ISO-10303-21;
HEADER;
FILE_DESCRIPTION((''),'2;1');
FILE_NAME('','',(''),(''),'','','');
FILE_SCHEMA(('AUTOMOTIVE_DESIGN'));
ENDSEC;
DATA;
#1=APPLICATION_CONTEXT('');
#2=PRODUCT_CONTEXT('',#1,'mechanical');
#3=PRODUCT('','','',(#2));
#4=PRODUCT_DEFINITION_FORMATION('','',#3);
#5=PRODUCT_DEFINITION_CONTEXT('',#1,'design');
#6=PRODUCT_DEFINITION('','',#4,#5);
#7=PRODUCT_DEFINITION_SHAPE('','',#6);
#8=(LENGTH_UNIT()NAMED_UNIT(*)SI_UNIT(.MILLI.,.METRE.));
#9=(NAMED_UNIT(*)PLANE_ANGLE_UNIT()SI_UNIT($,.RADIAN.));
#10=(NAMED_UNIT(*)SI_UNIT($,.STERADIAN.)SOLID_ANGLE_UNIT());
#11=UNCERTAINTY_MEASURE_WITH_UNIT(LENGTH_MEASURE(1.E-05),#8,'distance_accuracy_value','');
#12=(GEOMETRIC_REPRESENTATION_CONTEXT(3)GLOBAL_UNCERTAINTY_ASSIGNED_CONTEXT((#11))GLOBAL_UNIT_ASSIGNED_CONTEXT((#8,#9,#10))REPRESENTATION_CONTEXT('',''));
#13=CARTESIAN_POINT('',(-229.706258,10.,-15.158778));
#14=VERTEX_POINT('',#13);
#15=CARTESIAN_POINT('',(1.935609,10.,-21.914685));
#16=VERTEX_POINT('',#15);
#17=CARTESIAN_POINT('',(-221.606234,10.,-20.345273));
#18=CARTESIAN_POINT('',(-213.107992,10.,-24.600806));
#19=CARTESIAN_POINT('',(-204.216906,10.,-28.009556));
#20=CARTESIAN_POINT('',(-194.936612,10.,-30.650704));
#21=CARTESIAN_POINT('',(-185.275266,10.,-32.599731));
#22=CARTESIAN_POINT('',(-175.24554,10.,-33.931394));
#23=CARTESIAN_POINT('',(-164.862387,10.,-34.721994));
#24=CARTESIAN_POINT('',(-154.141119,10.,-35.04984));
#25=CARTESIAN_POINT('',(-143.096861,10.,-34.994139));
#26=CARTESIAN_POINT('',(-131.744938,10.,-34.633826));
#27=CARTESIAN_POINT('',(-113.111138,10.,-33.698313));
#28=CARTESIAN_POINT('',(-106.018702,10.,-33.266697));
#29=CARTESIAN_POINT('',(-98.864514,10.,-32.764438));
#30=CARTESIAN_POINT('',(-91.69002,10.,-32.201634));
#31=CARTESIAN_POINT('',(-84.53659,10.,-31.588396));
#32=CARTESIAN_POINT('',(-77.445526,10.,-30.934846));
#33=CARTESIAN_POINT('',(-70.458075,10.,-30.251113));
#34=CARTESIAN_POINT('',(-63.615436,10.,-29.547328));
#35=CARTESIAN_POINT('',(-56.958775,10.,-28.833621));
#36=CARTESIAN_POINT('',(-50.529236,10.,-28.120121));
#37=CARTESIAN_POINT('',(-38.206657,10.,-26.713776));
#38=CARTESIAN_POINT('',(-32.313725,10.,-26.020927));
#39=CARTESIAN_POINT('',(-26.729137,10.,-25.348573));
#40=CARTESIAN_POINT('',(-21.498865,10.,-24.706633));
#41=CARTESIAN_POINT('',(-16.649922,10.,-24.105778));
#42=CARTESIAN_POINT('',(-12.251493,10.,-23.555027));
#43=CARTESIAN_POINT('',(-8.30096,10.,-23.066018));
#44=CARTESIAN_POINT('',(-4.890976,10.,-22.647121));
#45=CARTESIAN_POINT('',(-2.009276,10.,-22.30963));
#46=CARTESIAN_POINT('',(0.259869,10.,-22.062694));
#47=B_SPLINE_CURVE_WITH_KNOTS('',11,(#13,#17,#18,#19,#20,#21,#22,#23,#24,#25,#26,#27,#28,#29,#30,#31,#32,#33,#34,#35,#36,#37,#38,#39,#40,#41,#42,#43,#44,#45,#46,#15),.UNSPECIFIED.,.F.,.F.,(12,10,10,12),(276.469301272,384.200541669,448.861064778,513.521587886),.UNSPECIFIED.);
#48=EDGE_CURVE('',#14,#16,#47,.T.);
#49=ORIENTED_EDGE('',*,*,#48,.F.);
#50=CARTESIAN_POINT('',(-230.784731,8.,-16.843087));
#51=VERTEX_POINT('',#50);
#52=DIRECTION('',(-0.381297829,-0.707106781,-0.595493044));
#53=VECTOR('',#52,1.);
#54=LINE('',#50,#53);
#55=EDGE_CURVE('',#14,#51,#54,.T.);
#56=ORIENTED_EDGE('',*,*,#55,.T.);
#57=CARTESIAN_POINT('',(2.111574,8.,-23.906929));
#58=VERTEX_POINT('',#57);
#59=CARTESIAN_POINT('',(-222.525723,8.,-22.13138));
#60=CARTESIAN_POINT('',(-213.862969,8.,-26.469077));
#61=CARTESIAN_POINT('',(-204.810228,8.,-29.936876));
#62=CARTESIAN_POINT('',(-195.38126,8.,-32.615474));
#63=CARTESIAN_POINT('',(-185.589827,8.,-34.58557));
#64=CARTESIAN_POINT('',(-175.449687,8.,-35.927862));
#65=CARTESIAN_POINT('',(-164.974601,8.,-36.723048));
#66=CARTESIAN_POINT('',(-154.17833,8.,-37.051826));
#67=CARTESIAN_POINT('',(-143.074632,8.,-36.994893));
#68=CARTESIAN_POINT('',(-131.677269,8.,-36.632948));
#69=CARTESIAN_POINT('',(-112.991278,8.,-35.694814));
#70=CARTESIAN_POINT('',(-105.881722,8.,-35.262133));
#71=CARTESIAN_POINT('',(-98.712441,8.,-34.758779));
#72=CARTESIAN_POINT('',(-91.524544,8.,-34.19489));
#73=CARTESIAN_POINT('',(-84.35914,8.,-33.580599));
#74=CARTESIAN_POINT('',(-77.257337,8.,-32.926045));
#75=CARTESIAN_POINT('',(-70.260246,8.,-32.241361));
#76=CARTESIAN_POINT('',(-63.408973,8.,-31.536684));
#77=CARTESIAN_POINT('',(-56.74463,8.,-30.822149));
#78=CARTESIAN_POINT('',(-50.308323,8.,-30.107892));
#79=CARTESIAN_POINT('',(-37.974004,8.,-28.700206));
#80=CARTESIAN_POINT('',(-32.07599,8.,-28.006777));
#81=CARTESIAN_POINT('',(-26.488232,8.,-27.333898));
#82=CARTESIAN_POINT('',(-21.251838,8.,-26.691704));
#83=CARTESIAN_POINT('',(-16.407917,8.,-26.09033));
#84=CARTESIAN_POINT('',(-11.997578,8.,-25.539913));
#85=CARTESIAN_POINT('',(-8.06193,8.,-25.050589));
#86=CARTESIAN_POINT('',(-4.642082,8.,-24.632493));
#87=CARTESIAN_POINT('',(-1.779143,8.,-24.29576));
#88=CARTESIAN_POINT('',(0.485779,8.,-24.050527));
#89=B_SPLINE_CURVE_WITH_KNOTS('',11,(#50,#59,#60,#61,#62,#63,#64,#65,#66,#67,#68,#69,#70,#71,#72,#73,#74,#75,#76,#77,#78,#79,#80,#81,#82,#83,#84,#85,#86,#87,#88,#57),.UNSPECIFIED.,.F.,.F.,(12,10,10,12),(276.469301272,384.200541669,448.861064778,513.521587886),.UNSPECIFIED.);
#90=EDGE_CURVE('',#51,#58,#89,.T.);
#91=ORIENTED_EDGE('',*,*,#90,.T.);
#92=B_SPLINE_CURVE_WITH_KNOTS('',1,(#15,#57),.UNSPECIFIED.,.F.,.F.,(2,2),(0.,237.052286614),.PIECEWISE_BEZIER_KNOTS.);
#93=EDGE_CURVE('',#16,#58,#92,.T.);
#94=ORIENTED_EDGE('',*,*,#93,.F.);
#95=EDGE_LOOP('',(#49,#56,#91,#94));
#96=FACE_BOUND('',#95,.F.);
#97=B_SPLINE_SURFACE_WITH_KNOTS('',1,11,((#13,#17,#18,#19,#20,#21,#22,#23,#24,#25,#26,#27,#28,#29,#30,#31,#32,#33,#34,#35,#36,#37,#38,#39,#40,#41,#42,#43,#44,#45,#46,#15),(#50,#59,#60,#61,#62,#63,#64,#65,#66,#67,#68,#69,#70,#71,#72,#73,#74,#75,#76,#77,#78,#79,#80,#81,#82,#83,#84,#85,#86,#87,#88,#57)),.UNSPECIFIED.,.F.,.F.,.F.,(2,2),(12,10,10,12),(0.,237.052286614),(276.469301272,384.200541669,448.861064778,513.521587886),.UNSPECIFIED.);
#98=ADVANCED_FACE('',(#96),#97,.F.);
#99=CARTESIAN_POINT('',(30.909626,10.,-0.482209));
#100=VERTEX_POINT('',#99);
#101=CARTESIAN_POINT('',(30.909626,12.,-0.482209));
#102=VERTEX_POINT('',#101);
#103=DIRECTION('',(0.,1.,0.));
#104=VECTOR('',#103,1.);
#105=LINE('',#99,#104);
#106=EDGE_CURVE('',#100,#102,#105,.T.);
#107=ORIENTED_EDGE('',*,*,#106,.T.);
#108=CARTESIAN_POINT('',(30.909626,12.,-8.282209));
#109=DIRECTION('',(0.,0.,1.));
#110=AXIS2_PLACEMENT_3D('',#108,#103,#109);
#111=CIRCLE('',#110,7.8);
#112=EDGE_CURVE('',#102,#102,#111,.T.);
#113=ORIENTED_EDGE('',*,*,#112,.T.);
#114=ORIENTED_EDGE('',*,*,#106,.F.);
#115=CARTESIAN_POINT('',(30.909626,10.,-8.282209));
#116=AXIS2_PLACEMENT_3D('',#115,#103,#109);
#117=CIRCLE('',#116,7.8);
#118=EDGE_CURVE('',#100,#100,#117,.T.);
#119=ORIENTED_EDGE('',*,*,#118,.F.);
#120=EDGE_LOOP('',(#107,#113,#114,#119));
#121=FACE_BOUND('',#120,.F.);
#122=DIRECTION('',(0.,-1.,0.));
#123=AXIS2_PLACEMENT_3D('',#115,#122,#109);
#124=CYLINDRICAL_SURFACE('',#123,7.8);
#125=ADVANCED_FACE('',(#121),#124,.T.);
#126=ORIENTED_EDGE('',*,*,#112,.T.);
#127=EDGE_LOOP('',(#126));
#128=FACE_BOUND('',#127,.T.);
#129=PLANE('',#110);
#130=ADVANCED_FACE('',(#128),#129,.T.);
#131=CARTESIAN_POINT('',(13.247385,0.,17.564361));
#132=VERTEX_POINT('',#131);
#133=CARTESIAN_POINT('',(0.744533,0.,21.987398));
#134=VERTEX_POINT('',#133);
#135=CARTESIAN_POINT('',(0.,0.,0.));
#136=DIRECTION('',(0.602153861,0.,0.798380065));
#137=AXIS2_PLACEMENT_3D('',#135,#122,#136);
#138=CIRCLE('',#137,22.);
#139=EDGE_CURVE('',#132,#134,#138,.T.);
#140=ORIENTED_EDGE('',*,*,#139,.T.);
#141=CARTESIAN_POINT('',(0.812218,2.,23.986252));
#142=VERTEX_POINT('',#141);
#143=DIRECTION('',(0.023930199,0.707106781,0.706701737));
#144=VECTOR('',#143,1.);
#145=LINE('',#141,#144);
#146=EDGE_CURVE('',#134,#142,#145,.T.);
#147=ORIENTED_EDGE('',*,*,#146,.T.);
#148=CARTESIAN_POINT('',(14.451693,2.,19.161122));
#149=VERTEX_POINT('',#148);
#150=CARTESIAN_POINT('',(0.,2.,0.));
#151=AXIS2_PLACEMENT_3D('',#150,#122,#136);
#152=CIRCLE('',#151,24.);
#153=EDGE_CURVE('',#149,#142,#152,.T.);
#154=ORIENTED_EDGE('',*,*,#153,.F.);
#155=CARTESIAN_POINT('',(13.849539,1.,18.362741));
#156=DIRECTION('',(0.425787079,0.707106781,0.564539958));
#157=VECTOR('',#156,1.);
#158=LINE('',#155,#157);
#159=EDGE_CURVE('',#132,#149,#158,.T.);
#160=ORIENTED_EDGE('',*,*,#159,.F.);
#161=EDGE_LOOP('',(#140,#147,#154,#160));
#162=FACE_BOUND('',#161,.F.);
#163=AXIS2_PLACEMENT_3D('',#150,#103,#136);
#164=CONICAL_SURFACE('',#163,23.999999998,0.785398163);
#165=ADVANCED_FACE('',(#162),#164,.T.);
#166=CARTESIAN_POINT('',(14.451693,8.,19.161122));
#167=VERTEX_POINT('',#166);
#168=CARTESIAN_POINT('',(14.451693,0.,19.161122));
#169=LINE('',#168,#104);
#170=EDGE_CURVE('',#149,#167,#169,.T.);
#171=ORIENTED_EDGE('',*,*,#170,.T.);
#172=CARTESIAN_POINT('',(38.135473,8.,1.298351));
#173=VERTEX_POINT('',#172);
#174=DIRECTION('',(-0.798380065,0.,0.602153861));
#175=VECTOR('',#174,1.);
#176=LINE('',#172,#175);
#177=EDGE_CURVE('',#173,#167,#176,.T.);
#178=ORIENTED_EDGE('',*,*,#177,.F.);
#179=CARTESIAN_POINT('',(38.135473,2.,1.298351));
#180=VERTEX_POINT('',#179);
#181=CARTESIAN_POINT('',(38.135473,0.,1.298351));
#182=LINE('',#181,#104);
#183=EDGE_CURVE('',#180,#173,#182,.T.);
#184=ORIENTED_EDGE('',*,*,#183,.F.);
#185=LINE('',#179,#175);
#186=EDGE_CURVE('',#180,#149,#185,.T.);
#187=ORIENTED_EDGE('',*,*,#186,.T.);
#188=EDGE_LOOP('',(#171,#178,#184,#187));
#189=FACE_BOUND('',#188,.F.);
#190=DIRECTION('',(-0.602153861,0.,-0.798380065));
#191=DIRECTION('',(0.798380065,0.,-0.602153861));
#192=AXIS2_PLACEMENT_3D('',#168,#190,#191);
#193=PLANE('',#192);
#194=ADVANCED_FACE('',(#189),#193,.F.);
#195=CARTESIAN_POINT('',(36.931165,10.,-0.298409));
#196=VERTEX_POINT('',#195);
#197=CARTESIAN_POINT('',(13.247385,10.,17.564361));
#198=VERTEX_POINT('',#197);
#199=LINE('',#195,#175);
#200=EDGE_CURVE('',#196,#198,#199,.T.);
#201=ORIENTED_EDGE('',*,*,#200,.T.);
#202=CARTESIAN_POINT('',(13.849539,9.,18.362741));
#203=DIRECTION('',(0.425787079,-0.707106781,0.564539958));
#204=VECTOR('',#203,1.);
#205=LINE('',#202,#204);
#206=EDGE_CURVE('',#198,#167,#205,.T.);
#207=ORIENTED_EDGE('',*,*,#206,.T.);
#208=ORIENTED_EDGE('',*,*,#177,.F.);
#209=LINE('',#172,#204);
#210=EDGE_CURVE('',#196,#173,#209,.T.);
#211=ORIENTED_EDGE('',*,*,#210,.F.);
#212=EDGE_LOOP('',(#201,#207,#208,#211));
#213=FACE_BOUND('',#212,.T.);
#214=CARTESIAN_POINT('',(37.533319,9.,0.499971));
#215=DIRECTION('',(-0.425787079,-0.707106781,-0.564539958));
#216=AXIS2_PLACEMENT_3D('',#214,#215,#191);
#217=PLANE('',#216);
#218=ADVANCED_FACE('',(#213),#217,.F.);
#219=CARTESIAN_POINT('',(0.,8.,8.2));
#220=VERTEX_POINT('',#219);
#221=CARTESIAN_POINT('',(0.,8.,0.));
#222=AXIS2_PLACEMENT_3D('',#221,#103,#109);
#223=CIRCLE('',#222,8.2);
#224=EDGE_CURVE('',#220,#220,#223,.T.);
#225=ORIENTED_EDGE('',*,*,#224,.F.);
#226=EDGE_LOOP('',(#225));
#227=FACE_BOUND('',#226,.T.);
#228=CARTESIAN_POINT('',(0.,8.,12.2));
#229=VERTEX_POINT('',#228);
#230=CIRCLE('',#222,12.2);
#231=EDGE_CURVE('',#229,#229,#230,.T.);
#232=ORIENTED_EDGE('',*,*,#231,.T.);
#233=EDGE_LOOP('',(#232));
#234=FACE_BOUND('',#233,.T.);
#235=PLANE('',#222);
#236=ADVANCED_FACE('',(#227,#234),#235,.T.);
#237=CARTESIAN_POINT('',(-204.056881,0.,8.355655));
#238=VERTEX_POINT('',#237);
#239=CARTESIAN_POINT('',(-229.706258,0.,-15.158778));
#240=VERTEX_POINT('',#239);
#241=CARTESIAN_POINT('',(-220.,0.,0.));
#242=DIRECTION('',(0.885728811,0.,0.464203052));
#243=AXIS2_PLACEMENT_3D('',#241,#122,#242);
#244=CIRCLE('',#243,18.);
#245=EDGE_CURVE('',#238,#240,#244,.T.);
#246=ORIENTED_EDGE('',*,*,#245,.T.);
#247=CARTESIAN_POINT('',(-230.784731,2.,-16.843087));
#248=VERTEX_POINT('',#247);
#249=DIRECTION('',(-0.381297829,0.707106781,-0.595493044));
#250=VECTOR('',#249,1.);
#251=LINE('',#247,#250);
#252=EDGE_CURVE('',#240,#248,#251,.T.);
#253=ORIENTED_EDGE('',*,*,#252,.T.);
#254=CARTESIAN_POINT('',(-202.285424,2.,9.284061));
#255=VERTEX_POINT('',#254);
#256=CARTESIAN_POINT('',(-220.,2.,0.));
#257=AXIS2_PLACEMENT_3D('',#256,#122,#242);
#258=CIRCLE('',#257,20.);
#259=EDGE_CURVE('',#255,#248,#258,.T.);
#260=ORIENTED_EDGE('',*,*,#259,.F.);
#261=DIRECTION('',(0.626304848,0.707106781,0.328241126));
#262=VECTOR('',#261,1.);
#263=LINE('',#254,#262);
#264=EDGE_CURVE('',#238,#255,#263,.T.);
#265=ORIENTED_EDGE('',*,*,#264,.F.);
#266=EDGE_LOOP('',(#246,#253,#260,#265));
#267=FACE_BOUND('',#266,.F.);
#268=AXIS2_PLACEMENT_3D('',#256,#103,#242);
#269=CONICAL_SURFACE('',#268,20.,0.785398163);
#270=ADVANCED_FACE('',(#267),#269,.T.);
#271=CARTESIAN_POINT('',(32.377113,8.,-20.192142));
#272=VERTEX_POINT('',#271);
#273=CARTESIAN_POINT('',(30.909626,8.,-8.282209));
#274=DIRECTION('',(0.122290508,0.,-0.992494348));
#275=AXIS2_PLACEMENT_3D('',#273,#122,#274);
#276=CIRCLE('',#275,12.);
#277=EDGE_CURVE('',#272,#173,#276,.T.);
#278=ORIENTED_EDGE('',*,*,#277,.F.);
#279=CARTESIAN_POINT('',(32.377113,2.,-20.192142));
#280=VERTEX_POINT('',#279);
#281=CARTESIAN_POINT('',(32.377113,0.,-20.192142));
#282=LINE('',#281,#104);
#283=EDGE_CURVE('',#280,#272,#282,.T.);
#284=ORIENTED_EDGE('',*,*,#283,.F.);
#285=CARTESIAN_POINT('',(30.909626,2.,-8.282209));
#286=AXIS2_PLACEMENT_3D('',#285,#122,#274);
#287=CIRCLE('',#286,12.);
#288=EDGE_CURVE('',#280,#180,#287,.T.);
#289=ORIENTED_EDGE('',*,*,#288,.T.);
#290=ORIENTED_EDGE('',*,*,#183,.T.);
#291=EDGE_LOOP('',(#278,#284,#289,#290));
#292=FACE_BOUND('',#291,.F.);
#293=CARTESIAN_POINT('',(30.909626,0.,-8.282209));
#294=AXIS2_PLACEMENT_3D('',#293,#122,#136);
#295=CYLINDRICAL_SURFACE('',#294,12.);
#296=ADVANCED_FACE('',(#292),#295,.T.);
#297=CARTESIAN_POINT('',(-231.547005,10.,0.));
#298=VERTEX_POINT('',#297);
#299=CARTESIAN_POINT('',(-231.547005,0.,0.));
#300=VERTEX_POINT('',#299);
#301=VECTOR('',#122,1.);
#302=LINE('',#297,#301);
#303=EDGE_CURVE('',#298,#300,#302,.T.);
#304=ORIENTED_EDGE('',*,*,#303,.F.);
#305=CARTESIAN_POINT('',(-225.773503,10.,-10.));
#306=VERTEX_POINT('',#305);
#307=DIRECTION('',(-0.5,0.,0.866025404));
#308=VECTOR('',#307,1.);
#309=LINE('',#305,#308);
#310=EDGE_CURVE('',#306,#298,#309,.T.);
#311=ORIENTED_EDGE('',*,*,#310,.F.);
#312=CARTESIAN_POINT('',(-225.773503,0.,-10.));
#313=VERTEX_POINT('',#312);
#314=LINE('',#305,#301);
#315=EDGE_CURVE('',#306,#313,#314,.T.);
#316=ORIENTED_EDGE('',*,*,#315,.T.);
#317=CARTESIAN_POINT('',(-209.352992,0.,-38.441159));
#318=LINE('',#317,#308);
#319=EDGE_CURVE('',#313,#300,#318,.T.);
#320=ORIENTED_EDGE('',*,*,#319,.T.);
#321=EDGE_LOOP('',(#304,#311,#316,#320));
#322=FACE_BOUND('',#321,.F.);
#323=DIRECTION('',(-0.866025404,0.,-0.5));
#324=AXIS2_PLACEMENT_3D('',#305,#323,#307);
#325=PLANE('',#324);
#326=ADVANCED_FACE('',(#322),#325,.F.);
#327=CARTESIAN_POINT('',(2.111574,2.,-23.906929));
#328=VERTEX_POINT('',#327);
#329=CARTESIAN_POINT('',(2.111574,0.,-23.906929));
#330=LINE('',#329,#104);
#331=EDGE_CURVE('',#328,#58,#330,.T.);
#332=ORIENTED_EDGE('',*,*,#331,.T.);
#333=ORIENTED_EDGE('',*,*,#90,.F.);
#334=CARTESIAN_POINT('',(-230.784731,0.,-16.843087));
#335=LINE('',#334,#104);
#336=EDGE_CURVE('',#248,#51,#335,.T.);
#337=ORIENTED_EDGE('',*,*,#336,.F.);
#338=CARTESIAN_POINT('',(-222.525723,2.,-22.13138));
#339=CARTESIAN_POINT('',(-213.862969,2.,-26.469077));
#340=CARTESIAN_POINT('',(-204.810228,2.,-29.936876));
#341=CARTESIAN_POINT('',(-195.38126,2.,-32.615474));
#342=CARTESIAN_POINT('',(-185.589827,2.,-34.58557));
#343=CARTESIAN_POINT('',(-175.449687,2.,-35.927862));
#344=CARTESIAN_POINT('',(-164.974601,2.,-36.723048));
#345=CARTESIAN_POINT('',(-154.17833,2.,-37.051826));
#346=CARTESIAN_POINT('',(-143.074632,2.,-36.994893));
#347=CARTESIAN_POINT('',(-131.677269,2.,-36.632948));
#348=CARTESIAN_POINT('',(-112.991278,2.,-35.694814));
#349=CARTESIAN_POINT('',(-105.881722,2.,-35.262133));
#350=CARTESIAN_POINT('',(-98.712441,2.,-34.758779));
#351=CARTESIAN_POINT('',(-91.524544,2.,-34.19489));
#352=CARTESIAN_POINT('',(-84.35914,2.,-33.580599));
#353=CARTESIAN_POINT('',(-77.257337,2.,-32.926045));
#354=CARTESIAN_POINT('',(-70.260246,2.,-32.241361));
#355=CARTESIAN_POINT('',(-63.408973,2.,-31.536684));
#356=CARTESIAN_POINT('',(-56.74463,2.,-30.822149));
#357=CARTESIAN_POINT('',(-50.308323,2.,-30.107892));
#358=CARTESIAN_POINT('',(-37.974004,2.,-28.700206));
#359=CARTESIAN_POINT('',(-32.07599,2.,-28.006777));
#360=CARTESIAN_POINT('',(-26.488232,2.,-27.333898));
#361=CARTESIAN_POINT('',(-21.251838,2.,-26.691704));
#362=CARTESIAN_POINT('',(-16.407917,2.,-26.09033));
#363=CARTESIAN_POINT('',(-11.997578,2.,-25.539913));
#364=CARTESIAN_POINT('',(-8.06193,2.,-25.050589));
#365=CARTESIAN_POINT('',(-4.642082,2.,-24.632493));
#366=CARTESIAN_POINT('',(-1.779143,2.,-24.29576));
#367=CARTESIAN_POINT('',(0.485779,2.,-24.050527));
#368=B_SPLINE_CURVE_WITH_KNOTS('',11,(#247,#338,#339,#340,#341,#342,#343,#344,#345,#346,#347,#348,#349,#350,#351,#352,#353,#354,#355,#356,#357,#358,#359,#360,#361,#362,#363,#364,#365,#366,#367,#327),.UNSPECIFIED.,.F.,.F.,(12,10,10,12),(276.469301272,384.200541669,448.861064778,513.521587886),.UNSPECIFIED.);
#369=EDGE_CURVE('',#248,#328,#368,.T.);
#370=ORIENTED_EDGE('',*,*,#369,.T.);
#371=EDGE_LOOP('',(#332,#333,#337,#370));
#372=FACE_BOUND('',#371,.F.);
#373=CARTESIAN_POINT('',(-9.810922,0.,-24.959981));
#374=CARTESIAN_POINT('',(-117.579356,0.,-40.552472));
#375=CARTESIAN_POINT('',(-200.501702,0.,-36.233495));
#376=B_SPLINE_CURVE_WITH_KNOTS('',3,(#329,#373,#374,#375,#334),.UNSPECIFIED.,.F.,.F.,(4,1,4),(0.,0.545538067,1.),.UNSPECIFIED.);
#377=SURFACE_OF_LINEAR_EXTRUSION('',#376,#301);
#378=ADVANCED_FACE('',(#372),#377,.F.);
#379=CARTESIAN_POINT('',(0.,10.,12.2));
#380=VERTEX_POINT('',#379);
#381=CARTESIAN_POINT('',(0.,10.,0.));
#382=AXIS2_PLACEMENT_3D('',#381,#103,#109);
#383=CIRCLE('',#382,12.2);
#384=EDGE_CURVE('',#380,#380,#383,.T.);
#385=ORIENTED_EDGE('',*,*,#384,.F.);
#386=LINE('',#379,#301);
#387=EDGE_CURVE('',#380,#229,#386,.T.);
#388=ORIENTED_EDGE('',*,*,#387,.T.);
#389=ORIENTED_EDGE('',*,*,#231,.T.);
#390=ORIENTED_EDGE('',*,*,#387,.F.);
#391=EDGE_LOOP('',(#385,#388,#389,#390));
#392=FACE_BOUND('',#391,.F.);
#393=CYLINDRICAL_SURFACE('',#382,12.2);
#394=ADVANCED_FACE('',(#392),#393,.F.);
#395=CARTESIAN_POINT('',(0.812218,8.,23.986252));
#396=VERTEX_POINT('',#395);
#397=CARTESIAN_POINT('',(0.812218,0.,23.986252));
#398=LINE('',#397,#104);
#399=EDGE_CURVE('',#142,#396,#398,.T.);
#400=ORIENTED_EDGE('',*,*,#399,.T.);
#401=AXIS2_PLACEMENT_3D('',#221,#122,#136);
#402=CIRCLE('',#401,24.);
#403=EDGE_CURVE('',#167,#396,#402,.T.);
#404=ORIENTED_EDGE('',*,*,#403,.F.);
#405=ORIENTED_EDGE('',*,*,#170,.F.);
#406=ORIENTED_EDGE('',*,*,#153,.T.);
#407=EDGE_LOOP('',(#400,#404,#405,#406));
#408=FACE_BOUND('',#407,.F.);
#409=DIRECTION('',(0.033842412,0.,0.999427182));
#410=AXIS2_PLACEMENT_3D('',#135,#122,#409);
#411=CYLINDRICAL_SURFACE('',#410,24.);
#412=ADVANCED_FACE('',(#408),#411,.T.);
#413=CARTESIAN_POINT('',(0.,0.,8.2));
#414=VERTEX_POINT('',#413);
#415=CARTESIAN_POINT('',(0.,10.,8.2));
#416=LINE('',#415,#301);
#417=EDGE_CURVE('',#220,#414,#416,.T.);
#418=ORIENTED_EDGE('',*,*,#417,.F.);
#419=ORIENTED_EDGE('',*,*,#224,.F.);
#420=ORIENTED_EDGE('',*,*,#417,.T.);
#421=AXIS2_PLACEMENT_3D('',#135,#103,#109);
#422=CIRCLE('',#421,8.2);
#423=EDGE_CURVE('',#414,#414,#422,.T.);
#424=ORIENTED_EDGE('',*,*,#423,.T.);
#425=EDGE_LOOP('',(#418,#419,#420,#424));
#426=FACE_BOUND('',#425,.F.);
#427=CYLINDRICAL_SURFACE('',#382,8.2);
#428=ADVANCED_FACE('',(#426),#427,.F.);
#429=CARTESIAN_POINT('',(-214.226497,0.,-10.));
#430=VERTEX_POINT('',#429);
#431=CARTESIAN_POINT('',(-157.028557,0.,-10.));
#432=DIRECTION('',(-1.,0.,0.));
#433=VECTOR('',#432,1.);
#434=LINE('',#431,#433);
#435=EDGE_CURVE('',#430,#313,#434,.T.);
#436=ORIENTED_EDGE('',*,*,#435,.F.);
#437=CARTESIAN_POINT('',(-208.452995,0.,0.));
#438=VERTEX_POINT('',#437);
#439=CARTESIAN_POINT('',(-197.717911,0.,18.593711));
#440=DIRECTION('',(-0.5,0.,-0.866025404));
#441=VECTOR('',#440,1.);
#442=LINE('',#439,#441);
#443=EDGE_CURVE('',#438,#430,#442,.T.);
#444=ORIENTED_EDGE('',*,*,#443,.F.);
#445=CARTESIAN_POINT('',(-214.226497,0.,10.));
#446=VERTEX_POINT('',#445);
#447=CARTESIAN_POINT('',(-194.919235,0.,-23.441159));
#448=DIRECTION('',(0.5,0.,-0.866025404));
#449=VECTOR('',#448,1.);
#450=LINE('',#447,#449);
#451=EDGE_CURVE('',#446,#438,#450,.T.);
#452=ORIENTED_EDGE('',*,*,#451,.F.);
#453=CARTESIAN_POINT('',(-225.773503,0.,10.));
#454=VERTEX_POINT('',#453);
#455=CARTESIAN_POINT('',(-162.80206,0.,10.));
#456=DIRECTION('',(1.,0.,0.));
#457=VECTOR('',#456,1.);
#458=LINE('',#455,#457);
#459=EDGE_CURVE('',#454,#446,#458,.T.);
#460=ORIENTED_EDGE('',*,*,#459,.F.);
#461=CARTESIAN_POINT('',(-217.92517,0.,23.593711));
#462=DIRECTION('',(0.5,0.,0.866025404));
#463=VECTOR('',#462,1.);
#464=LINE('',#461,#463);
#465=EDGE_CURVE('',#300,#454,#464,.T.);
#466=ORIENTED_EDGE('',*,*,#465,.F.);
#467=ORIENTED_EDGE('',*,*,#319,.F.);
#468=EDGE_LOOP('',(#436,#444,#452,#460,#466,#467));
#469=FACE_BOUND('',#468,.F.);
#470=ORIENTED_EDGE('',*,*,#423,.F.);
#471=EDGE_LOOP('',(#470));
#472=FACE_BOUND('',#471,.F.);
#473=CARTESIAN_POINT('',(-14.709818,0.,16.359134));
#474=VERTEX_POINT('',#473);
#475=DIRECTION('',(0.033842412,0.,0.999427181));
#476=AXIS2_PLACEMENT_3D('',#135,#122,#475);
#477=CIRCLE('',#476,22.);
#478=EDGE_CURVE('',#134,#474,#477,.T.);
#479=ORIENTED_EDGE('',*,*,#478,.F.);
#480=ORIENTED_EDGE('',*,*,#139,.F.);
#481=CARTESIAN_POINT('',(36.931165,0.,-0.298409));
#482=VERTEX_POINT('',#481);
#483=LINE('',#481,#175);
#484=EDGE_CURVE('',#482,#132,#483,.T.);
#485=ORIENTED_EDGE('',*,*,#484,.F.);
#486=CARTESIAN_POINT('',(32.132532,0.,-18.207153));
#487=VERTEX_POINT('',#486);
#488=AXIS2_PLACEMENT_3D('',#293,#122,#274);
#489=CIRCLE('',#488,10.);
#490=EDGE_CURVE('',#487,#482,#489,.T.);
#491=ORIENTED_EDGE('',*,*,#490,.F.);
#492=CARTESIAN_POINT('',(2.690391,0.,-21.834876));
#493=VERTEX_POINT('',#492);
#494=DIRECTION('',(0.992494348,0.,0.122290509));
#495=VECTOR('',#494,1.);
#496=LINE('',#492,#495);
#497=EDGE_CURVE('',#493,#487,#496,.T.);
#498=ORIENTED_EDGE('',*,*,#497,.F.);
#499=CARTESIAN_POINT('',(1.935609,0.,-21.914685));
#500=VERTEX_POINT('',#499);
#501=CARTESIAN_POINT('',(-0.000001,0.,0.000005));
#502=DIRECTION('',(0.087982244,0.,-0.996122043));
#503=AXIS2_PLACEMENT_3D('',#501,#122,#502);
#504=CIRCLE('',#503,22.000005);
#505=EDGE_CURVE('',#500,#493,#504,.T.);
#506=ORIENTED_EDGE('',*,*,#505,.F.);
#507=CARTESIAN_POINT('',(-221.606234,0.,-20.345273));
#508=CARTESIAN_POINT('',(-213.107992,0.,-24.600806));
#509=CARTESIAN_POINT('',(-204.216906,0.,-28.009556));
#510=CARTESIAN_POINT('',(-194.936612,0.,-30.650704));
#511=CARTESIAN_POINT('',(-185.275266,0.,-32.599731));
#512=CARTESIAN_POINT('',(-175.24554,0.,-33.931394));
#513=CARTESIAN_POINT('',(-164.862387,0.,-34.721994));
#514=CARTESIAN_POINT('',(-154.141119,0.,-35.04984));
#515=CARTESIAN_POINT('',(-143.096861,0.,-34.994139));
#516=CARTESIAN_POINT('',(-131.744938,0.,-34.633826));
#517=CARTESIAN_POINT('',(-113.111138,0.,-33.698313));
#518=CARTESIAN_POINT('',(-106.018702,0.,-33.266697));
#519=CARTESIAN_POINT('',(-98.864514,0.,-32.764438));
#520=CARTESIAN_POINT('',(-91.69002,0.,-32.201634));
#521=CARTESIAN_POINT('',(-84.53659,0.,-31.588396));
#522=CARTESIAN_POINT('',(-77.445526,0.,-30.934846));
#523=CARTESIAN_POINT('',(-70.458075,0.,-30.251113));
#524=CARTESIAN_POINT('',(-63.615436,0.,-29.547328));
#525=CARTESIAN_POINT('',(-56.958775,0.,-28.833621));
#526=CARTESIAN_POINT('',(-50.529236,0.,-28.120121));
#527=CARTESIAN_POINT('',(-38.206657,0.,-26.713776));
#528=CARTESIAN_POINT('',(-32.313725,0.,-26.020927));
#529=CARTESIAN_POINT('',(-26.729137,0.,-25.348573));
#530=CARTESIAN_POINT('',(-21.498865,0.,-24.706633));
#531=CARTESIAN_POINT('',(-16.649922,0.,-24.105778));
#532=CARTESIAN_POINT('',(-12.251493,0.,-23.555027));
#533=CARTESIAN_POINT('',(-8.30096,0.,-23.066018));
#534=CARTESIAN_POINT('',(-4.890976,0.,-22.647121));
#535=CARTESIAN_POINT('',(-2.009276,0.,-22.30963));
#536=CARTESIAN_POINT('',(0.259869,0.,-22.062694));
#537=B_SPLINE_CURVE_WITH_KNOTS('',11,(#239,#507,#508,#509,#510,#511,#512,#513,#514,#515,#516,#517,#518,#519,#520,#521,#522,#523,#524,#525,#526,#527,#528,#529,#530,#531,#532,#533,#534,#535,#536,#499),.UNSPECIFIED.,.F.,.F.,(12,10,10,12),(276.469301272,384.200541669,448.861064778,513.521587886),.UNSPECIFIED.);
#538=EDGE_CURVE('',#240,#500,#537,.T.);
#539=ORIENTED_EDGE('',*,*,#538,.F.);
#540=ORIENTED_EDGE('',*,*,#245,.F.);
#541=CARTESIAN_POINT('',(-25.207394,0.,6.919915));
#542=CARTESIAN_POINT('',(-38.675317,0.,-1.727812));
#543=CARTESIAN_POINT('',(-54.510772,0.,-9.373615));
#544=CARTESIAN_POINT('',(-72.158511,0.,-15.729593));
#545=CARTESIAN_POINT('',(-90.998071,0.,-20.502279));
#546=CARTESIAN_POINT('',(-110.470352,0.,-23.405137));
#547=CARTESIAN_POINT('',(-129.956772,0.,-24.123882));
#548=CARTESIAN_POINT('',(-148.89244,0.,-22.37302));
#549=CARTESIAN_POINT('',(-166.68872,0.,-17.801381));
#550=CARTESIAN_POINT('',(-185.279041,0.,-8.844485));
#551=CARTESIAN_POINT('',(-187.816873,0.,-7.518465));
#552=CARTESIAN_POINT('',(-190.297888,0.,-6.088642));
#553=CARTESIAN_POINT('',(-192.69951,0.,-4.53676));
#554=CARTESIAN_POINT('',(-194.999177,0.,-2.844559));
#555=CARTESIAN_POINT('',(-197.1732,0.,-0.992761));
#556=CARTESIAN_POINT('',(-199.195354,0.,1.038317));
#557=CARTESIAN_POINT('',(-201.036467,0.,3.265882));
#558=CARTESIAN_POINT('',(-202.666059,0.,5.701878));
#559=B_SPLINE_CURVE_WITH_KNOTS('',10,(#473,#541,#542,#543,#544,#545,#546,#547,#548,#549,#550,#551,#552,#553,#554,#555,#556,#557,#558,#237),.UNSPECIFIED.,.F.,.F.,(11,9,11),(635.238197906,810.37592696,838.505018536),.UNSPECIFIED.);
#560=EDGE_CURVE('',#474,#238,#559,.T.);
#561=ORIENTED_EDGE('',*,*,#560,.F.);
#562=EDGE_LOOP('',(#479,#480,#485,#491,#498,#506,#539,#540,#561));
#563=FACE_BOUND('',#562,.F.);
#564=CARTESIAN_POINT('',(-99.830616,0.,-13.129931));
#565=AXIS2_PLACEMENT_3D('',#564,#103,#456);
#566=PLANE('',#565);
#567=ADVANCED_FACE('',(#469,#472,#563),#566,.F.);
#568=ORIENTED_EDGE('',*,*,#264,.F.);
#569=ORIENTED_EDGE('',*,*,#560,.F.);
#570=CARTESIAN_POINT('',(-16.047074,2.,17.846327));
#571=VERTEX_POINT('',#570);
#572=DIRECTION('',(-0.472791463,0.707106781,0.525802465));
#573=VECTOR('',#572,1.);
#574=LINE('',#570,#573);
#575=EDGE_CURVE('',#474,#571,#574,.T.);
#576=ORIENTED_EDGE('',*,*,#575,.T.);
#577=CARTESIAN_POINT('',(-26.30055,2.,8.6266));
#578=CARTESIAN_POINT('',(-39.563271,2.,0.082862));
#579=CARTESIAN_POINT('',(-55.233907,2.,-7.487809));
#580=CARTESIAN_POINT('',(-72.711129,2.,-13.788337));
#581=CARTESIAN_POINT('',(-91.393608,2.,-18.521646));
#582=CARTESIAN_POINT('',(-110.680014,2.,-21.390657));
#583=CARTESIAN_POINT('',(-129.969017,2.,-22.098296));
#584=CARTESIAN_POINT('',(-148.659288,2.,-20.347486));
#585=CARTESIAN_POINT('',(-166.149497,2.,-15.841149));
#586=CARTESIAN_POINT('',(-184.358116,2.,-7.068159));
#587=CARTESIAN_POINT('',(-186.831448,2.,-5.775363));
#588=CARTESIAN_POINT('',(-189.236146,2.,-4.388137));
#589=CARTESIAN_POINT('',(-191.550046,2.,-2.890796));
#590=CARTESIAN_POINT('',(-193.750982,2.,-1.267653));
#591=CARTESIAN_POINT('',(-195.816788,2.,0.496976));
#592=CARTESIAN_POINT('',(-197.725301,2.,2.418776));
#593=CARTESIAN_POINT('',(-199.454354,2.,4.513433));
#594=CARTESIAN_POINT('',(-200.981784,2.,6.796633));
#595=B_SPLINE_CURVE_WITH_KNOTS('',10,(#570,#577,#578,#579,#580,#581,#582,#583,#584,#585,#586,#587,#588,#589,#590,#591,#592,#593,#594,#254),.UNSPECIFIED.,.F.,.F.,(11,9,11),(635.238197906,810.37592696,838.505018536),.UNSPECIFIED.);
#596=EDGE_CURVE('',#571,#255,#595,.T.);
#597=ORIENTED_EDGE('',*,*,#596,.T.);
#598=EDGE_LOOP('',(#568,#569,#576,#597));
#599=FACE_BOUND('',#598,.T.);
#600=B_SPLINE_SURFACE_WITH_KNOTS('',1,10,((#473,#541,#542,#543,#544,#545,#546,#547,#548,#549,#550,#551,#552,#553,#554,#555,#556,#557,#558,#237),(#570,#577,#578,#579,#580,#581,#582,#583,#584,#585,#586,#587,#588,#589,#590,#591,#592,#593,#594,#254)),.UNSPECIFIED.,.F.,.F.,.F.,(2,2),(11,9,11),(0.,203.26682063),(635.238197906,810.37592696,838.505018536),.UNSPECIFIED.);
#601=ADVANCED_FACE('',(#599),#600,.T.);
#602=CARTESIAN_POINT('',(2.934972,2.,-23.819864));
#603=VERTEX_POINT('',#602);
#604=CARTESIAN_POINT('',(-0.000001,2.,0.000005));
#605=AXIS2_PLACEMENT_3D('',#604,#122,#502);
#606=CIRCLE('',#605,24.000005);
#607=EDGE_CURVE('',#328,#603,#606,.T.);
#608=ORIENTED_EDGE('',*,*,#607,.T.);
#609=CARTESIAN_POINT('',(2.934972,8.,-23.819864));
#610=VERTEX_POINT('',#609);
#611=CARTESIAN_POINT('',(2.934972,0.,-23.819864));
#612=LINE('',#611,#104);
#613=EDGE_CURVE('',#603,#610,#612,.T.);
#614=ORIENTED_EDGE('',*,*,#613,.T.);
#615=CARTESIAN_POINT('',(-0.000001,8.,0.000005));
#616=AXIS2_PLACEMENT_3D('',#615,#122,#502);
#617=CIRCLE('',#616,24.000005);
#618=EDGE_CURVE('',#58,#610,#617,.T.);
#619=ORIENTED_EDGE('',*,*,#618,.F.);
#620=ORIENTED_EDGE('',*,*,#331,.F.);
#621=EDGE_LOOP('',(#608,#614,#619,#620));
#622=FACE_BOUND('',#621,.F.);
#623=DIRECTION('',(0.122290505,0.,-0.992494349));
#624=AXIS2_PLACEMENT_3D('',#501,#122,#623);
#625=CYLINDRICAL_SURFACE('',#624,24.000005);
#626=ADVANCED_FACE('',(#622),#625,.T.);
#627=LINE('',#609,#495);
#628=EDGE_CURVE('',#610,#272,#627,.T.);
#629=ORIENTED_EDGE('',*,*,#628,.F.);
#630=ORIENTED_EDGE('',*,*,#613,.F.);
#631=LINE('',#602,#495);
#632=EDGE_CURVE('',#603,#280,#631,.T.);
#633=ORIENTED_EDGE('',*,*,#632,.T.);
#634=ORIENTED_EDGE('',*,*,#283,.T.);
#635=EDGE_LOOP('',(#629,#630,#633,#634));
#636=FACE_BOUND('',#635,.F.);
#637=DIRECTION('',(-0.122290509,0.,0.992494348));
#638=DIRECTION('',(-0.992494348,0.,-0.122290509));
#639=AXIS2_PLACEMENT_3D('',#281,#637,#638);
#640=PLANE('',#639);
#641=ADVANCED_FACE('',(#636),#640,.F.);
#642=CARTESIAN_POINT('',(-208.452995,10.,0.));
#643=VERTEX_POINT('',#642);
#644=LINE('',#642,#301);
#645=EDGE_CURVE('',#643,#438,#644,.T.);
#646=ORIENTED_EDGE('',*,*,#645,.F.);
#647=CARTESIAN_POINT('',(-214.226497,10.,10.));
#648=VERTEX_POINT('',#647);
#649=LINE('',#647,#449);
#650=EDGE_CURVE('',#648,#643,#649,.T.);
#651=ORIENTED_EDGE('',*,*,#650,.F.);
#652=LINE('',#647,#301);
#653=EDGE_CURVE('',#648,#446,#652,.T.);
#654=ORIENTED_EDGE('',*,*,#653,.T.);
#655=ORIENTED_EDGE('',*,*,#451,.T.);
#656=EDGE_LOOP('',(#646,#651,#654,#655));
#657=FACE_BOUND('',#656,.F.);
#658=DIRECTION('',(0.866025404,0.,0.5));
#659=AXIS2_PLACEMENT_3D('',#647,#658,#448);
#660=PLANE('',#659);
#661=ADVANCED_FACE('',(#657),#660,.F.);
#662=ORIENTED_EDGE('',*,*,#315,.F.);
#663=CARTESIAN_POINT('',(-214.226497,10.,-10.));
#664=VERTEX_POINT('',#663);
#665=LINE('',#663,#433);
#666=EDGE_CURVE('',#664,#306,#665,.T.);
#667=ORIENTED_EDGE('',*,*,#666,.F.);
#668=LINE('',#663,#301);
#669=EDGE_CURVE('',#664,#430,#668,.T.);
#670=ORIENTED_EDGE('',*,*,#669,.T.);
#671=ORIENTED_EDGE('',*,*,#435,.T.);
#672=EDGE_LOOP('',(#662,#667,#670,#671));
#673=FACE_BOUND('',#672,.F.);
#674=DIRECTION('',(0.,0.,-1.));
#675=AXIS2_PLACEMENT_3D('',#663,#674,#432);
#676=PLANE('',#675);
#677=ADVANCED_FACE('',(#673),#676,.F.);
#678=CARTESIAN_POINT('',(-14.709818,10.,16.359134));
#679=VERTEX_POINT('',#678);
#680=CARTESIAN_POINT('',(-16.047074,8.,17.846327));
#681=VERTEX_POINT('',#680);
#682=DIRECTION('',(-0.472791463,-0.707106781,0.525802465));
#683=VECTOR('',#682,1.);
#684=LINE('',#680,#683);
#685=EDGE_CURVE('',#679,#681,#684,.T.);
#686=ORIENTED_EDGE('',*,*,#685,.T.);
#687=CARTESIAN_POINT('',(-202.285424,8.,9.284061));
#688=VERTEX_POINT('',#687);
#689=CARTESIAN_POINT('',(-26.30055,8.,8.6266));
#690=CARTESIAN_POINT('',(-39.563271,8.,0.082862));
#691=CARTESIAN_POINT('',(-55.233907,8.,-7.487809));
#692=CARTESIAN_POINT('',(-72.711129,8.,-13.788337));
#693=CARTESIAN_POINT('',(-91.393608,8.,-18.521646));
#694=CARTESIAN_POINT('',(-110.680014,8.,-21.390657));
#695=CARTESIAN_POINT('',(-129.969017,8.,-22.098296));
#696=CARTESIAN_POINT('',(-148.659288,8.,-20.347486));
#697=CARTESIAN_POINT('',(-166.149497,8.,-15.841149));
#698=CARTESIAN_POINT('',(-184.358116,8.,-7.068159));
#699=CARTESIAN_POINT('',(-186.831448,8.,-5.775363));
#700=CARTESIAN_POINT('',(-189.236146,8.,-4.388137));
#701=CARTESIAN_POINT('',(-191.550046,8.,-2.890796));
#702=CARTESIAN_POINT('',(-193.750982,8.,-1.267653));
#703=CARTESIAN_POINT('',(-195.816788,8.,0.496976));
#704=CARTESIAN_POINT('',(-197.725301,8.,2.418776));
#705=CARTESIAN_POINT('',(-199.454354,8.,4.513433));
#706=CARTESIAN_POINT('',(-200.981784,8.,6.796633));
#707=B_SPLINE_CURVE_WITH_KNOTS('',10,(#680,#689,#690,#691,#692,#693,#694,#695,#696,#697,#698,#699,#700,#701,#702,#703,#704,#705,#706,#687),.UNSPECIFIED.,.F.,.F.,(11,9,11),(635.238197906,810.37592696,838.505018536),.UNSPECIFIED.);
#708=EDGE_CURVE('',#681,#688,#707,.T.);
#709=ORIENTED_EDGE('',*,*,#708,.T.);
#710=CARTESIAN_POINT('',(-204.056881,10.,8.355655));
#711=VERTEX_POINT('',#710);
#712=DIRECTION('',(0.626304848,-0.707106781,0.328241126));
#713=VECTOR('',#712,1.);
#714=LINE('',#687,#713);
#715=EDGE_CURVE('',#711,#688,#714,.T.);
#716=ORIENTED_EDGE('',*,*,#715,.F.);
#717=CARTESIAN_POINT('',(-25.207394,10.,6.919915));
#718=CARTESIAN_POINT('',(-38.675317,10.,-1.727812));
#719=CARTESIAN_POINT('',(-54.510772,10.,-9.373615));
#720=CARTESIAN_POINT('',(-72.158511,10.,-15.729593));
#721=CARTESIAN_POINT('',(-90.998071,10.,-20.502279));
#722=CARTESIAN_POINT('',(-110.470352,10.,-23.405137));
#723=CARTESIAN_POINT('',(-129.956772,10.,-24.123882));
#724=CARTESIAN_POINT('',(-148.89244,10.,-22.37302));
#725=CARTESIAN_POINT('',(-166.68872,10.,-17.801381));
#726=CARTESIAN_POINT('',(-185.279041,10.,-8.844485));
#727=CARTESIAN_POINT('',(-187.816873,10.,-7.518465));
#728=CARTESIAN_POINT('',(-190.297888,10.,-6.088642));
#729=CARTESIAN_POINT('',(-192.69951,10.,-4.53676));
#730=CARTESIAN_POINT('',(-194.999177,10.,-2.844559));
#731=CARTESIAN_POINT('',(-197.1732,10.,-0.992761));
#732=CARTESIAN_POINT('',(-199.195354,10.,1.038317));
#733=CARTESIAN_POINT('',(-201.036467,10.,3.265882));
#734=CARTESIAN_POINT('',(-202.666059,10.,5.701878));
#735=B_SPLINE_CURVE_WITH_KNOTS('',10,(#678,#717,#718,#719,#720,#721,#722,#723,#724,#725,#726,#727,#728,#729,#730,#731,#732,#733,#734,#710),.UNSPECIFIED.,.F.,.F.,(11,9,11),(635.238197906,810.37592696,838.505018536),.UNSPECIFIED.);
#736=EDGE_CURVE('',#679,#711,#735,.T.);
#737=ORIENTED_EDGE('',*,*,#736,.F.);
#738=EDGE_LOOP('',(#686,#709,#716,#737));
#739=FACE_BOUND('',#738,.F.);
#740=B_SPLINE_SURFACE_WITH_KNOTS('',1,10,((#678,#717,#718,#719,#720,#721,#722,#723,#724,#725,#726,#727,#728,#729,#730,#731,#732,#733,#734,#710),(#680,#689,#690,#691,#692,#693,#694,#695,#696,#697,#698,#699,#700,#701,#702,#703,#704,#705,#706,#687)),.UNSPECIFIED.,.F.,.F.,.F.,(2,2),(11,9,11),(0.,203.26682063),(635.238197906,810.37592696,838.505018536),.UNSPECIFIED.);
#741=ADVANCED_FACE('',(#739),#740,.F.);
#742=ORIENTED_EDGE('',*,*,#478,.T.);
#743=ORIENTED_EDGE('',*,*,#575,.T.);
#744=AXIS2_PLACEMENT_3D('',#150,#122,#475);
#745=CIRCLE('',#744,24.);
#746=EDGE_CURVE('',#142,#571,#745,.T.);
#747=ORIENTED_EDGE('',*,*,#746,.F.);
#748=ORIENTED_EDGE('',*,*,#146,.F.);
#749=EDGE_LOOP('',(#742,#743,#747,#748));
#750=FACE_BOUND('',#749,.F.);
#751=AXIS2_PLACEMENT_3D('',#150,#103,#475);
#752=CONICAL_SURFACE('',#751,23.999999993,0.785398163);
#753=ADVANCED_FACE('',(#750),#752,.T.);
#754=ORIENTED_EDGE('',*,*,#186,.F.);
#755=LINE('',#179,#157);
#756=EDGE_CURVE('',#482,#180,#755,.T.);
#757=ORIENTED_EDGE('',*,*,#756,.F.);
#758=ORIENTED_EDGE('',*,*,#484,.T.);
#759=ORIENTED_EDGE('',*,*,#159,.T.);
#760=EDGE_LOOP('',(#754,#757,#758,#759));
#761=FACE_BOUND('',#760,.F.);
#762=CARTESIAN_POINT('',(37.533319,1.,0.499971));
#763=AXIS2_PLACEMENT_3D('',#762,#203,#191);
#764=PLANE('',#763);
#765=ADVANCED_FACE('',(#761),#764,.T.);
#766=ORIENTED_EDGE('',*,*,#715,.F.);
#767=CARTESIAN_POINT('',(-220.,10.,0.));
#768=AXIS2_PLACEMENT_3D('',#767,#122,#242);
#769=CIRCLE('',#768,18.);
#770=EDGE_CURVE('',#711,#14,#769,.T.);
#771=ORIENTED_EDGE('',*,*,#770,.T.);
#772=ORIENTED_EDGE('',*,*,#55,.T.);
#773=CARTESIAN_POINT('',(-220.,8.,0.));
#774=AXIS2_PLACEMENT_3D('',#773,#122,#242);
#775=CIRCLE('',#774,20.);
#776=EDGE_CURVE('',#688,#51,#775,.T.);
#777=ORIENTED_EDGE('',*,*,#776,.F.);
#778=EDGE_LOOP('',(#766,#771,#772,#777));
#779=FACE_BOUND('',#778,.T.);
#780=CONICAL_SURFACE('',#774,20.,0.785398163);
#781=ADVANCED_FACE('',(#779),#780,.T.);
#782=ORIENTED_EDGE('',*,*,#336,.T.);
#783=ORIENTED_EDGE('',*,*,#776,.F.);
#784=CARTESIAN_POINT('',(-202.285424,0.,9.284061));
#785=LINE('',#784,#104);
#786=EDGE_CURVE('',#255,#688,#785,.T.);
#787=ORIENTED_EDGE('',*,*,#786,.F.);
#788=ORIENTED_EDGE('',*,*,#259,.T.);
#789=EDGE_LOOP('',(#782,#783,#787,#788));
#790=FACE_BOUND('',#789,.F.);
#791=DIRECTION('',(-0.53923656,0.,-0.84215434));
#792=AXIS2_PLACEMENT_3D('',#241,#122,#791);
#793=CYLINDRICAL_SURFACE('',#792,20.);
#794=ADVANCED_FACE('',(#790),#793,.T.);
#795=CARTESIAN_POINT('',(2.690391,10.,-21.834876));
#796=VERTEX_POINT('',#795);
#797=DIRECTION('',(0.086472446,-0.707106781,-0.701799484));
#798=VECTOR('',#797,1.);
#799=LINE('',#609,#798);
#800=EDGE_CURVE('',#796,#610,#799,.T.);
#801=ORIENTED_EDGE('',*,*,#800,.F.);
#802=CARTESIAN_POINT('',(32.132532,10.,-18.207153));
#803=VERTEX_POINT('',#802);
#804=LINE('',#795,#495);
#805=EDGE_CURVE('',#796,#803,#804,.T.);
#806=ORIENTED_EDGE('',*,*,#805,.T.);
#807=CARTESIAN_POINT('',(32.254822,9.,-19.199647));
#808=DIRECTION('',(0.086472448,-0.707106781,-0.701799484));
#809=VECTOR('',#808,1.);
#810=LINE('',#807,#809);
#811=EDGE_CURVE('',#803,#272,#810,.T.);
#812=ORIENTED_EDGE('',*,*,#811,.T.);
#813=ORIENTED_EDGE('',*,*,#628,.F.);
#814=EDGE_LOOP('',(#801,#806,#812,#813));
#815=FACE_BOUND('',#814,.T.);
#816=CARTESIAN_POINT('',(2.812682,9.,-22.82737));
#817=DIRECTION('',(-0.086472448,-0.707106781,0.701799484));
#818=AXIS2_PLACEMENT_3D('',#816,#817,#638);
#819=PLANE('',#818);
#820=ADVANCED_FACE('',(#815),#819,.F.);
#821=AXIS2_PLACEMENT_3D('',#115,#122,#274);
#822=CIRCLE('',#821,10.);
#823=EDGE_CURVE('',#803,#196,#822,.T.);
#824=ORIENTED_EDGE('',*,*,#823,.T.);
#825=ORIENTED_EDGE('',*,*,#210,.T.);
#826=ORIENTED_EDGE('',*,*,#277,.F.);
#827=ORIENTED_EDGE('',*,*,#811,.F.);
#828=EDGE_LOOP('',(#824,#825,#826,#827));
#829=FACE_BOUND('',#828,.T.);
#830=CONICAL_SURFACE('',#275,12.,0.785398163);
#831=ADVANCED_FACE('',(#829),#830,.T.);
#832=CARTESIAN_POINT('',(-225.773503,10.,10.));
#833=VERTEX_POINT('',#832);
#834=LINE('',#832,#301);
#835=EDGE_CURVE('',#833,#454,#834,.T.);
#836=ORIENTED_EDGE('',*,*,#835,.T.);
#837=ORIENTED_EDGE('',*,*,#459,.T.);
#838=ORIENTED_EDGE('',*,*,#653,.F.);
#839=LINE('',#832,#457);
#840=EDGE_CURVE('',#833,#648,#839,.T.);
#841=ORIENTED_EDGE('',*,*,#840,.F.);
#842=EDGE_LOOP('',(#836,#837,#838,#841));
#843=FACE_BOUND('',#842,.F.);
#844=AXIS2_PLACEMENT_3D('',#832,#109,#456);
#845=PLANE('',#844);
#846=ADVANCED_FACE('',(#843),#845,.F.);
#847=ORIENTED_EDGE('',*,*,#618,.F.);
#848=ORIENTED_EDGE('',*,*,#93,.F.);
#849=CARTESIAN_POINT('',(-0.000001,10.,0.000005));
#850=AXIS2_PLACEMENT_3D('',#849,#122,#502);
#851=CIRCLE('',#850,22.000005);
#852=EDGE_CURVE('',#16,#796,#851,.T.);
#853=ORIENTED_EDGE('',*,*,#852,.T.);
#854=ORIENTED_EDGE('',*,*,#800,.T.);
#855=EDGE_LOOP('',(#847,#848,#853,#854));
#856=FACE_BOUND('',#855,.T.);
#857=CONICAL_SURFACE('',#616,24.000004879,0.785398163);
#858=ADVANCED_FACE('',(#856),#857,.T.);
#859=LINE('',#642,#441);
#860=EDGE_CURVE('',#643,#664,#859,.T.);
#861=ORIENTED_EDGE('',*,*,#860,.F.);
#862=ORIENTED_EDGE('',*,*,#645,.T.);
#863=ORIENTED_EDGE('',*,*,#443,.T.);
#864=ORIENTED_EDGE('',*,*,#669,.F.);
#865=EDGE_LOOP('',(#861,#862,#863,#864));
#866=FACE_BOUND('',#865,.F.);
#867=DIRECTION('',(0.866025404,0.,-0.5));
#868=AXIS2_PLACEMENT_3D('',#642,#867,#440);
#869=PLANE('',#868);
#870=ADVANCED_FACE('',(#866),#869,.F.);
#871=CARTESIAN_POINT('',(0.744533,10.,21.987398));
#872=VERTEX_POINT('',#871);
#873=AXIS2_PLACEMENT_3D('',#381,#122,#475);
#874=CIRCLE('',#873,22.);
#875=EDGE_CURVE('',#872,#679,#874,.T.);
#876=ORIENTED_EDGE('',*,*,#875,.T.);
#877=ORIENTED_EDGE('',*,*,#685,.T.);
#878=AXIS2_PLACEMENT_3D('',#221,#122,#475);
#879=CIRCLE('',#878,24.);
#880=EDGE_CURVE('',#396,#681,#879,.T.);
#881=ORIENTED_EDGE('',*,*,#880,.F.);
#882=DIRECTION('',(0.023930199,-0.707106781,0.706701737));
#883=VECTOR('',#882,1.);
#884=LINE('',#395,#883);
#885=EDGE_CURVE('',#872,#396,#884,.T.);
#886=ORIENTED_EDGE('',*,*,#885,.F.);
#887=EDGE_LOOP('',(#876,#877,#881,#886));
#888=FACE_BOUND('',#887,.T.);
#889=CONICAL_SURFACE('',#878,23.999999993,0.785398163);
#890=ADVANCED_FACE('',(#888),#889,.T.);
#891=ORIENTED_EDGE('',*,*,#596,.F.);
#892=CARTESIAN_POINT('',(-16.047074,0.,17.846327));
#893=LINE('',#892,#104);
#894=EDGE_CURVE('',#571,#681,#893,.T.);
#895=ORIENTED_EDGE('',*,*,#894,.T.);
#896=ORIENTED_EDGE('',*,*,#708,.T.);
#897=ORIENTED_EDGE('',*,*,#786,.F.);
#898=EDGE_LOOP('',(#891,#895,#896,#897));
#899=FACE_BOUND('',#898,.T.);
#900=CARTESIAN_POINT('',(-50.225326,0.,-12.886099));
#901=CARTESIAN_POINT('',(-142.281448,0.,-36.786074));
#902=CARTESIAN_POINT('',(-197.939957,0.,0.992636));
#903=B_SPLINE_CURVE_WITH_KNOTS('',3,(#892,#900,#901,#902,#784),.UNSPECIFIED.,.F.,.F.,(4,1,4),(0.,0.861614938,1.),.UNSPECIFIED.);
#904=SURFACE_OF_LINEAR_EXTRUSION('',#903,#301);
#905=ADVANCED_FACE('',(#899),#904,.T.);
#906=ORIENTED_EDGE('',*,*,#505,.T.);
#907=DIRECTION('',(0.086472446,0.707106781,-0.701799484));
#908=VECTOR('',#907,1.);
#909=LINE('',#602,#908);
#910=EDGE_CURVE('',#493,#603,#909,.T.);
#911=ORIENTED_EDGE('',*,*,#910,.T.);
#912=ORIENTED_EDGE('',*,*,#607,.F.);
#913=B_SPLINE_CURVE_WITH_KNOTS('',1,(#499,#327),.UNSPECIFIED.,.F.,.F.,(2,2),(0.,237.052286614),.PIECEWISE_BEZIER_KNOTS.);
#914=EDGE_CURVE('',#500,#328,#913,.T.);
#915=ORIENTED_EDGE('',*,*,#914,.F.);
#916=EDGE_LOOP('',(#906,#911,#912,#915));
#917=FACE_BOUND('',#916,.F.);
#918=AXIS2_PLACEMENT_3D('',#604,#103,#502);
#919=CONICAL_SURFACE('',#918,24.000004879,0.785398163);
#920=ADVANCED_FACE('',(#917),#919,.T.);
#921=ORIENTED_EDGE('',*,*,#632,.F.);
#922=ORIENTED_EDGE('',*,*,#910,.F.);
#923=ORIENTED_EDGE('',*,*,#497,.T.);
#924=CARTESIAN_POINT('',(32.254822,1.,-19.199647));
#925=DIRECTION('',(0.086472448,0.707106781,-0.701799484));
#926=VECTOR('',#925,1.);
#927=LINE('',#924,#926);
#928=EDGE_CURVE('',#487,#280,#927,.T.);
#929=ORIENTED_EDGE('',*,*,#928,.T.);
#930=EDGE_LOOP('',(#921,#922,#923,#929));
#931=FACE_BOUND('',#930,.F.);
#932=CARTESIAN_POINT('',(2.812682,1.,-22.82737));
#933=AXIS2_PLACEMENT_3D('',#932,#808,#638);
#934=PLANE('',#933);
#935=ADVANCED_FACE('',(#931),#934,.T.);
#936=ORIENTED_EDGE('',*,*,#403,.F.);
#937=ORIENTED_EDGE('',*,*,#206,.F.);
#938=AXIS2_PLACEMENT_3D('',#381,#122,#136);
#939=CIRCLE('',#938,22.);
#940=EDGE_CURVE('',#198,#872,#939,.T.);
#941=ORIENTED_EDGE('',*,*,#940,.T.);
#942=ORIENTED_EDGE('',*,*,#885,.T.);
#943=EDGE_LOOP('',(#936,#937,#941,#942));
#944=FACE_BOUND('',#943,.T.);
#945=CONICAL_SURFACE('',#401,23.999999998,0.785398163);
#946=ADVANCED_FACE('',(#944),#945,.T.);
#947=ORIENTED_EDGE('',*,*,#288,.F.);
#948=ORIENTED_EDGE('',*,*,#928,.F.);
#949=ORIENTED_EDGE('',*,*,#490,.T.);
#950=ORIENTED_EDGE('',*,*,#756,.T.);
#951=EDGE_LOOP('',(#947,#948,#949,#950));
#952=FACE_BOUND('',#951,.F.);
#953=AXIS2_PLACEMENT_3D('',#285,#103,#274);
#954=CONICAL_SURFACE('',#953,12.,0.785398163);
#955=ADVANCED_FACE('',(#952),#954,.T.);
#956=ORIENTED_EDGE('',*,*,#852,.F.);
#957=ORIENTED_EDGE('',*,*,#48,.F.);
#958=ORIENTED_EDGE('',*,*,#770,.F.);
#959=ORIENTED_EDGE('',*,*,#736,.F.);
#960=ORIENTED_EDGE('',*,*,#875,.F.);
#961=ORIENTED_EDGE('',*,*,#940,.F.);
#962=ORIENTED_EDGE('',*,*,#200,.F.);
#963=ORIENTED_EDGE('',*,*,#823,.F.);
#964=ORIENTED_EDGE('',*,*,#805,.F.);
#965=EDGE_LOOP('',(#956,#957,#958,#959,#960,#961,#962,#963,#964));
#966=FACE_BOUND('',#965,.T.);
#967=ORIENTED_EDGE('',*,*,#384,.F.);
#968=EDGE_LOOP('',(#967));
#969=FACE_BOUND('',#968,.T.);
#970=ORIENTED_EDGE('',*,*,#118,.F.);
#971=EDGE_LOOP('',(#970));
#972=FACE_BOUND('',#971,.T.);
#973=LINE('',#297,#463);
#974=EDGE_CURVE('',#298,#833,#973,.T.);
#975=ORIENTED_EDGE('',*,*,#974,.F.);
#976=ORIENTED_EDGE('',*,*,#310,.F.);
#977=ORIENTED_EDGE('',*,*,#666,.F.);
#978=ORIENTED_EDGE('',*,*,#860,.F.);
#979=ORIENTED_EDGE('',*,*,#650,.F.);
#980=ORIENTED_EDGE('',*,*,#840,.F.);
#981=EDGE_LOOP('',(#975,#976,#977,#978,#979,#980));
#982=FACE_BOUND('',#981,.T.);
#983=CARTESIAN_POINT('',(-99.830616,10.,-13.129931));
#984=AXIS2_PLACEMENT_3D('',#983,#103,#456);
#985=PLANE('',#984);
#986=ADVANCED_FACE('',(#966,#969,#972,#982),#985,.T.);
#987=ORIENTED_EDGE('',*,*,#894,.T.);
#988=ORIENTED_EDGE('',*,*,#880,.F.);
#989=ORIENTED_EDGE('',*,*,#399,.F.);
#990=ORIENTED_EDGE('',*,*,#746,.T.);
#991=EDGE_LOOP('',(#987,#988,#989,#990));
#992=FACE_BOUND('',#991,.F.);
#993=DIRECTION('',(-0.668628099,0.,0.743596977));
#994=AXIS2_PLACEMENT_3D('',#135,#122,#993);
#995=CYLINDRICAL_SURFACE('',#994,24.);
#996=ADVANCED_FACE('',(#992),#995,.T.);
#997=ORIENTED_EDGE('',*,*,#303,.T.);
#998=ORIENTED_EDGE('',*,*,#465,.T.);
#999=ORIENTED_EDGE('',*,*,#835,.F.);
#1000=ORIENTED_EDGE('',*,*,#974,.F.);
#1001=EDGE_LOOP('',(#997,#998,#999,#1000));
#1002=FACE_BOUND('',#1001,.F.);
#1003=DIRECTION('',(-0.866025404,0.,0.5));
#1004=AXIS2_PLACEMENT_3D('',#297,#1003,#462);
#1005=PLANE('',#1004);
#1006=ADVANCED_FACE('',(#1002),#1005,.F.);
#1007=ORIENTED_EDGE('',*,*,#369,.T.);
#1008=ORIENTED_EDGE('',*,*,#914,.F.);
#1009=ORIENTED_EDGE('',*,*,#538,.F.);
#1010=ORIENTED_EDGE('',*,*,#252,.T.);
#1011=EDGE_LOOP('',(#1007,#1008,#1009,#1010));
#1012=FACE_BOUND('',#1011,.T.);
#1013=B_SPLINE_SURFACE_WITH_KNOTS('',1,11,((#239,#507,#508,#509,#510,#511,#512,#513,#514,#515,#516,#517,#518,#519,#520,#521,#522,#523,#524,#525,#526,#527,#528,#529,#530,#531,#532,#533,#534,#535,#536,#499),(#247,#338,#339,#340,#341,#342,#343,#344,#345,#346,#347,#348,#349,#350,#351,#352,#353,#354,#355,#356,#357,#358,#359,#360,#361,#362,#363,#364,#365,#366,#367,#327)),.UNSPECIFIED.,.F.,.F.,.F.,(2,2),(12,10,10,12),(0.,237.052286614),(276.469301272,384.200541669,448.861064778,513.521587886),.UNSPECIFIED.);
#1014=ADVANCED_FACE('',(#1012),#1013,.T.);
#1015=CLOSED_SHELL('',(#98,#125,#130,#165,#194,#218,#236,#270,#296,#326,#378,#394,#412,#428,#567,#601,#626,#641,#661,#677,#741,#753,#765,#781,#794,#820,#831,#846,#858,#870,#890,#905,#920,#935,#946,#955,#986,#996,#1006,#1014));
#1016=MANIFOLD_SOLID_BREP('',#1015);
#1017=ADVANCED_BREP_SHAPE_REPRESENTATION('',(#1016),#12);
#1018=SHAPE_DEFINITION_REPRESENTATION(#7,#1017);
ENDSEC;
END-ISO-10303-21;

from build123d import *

# Parameters (mm, degrees)
EXTRUDE_1_DEPTH     = 10
SKETCH_2_R          = 8.2
CUT_EXTRUDE_1_DEPTH = 10
SKETCH_3_R          = 7.8
EXTRUDE_2_DEPTH     = 2
CUT_EXTRUDE_2_DEPTH = 244.001178821
CHAMFER_1_SIZE      = 2
SKETCH_12_R         = 12.2
CUT_EXTRUDE_3_DEPTH = 2


with BuildPart() as part:
    # 草图1 → 凸台-拉伸1 (new body)
    with BuildSketch(Plane(origin=(0, 0, 0), x_dir=(1, 0, 0), z_dir=(0, 1, 0))):
        with BuildLine():
            ThreePointArc((38.135472776, -1.298351331), (42.500736357, 11.388037985), (32.377112543, 20.192141624))
            Line((32.377112543, 20.192141624), (2.934972204, 23.819864361))
            ThreePointArc((2.934972204, 23.819864361), (2.523648479, 23.866947822), (2.111573774, 23.906929042))
            add(Edge.make_bspline(
                [(2.111573774, 23.906929042), (-9.810921984, 24.95998062), (-117.579356421, 40.552472419), (-200.501701748, 36.233495272), (-230.78473121, 16.843086794)],
                knots=[0, 0, 0, 0, 0.545538067, 1, 1, 1, 1], degree=3))
            ThreePointArc((-230.78473121, 16.843086794), (-233.515274748, -14.74236577), (-202.285423784, -9.284061046))
            add(Edge.make_bspline(
                [(-16.047074382, -17.846327459), (-50.225325952, 12.886098942), (-142.28144772, 36.786073578), (-197.939957095, -0.992635508), (-202.285423784, -9.284061046)],
                knots=[0, 0, 0, 0, 0.861614938, 1, 1, 1, 1], degree=3))
            ThreePointArc((-16.047074382, -17.846327459), (-8.21278774, -22.551055797), (0.812217897, -23.986252356))
            ThreePointArc((0.812217897, -23.986252356), (8.004199727, -22.625931732), (14.451692669, -19.161121549))
            Line((14.451692669, -19.161121549), (38.135472776, -1.298351331))
        make_face()
    extrude(amount=EXTRUDE_1_DEPTH)

    # 草图2 → 切除-拉伸1 (cut)
    with BuildSketch(Plane(origin=(0, 10, 0), x_dir=(1, 0, 0), z_dir=(0, 1, 0))):
        with Locations(Location((0, 0, 0), (0, 0, 270))):
            Circle(SKETCH_2_R)
    extrude(amount=-CUT_EXTRUDE_1_DEPTH, mode=Mode.SUBTRACT)

    # 草图3 → 凸台-拉伸2 (add)
    with BuildSketch(Plane(origin=(0, 10, 0), x_dir=(1, 0, 0), z_dir=(0, 1, 0))):
        with Locations(Location((30.909626441, 8.282209443, 0), (0, 0, 270))):
            Circle(SKETCH_3_R)
    extrude(amount=EXTRUDE_2_DEPTH)

    # 草图6 → 切除-拉伸2 (cut, through all)
    with BuildSketch(Plane(origin=(0, 10, 0), x_dir=(1, 0, 0), z_dir=(0, 1, 0))):
        Polygon((-208.452994616, 0), (-214.226497308, 10), (-225.773502692, 10), (-231.547005384, 0), (-225.773502692, -10), (-214.226497308, -10), align=None)
    extrude(amount=-CUT_EXTRUDE_2_DEPTH, mode=Mode.SUBTRACT)

    # 倒角1
    chamfer_1_edges = [part.edges().sort_by_distance(p)[0] for p in [
        (-109.293214932, 0, -18.683029708),
        (2.523648479, 0, -23.866947822),
        (-233.515274748, 0, 14.74236577),
        (17.656042374, 0, -22.006002992),
        (-109.293214932, 0, -18.683029708),
        (42.500736357, 0, -11.388037985),
        (-1.033673825, 0, 23.977729634),
        (26.293582722, 0, 10.22973644),
        (-109.293214932, 10, -18.683029708),
        (2.523648479, 10, -23.866947822),
        (-233.515274748, 10, 14.74236577),
        (17.656042374, 10, -22.006002992),
        (-109.293214932, 10, -18.683029708),
        (42.500736357, 10, -11.388037985),
        (-1.033673825, 10, 23.977729634),
        (26.293582722, 10, 10.22973644),
    ]]
    chamfer(chamfer_1_edges, length=CHAMFER_1_SIZE)

    # 草图12 → 切除-拉伸3 (cut)
    with BuildSketch(Plane(origin=(0, 10, 0), x_dir=(1, 0, 0), z_dir=(0, 1, 0))):
        with Locations(Location((0, 0, 0), (0, 0, 270))):
            Circle(SKETCH_12_R)
    extrude(amount=-CUT_EXTRUDE_3_DEPTH, mode=Mode.SUBTRACT)


solid = part.part
